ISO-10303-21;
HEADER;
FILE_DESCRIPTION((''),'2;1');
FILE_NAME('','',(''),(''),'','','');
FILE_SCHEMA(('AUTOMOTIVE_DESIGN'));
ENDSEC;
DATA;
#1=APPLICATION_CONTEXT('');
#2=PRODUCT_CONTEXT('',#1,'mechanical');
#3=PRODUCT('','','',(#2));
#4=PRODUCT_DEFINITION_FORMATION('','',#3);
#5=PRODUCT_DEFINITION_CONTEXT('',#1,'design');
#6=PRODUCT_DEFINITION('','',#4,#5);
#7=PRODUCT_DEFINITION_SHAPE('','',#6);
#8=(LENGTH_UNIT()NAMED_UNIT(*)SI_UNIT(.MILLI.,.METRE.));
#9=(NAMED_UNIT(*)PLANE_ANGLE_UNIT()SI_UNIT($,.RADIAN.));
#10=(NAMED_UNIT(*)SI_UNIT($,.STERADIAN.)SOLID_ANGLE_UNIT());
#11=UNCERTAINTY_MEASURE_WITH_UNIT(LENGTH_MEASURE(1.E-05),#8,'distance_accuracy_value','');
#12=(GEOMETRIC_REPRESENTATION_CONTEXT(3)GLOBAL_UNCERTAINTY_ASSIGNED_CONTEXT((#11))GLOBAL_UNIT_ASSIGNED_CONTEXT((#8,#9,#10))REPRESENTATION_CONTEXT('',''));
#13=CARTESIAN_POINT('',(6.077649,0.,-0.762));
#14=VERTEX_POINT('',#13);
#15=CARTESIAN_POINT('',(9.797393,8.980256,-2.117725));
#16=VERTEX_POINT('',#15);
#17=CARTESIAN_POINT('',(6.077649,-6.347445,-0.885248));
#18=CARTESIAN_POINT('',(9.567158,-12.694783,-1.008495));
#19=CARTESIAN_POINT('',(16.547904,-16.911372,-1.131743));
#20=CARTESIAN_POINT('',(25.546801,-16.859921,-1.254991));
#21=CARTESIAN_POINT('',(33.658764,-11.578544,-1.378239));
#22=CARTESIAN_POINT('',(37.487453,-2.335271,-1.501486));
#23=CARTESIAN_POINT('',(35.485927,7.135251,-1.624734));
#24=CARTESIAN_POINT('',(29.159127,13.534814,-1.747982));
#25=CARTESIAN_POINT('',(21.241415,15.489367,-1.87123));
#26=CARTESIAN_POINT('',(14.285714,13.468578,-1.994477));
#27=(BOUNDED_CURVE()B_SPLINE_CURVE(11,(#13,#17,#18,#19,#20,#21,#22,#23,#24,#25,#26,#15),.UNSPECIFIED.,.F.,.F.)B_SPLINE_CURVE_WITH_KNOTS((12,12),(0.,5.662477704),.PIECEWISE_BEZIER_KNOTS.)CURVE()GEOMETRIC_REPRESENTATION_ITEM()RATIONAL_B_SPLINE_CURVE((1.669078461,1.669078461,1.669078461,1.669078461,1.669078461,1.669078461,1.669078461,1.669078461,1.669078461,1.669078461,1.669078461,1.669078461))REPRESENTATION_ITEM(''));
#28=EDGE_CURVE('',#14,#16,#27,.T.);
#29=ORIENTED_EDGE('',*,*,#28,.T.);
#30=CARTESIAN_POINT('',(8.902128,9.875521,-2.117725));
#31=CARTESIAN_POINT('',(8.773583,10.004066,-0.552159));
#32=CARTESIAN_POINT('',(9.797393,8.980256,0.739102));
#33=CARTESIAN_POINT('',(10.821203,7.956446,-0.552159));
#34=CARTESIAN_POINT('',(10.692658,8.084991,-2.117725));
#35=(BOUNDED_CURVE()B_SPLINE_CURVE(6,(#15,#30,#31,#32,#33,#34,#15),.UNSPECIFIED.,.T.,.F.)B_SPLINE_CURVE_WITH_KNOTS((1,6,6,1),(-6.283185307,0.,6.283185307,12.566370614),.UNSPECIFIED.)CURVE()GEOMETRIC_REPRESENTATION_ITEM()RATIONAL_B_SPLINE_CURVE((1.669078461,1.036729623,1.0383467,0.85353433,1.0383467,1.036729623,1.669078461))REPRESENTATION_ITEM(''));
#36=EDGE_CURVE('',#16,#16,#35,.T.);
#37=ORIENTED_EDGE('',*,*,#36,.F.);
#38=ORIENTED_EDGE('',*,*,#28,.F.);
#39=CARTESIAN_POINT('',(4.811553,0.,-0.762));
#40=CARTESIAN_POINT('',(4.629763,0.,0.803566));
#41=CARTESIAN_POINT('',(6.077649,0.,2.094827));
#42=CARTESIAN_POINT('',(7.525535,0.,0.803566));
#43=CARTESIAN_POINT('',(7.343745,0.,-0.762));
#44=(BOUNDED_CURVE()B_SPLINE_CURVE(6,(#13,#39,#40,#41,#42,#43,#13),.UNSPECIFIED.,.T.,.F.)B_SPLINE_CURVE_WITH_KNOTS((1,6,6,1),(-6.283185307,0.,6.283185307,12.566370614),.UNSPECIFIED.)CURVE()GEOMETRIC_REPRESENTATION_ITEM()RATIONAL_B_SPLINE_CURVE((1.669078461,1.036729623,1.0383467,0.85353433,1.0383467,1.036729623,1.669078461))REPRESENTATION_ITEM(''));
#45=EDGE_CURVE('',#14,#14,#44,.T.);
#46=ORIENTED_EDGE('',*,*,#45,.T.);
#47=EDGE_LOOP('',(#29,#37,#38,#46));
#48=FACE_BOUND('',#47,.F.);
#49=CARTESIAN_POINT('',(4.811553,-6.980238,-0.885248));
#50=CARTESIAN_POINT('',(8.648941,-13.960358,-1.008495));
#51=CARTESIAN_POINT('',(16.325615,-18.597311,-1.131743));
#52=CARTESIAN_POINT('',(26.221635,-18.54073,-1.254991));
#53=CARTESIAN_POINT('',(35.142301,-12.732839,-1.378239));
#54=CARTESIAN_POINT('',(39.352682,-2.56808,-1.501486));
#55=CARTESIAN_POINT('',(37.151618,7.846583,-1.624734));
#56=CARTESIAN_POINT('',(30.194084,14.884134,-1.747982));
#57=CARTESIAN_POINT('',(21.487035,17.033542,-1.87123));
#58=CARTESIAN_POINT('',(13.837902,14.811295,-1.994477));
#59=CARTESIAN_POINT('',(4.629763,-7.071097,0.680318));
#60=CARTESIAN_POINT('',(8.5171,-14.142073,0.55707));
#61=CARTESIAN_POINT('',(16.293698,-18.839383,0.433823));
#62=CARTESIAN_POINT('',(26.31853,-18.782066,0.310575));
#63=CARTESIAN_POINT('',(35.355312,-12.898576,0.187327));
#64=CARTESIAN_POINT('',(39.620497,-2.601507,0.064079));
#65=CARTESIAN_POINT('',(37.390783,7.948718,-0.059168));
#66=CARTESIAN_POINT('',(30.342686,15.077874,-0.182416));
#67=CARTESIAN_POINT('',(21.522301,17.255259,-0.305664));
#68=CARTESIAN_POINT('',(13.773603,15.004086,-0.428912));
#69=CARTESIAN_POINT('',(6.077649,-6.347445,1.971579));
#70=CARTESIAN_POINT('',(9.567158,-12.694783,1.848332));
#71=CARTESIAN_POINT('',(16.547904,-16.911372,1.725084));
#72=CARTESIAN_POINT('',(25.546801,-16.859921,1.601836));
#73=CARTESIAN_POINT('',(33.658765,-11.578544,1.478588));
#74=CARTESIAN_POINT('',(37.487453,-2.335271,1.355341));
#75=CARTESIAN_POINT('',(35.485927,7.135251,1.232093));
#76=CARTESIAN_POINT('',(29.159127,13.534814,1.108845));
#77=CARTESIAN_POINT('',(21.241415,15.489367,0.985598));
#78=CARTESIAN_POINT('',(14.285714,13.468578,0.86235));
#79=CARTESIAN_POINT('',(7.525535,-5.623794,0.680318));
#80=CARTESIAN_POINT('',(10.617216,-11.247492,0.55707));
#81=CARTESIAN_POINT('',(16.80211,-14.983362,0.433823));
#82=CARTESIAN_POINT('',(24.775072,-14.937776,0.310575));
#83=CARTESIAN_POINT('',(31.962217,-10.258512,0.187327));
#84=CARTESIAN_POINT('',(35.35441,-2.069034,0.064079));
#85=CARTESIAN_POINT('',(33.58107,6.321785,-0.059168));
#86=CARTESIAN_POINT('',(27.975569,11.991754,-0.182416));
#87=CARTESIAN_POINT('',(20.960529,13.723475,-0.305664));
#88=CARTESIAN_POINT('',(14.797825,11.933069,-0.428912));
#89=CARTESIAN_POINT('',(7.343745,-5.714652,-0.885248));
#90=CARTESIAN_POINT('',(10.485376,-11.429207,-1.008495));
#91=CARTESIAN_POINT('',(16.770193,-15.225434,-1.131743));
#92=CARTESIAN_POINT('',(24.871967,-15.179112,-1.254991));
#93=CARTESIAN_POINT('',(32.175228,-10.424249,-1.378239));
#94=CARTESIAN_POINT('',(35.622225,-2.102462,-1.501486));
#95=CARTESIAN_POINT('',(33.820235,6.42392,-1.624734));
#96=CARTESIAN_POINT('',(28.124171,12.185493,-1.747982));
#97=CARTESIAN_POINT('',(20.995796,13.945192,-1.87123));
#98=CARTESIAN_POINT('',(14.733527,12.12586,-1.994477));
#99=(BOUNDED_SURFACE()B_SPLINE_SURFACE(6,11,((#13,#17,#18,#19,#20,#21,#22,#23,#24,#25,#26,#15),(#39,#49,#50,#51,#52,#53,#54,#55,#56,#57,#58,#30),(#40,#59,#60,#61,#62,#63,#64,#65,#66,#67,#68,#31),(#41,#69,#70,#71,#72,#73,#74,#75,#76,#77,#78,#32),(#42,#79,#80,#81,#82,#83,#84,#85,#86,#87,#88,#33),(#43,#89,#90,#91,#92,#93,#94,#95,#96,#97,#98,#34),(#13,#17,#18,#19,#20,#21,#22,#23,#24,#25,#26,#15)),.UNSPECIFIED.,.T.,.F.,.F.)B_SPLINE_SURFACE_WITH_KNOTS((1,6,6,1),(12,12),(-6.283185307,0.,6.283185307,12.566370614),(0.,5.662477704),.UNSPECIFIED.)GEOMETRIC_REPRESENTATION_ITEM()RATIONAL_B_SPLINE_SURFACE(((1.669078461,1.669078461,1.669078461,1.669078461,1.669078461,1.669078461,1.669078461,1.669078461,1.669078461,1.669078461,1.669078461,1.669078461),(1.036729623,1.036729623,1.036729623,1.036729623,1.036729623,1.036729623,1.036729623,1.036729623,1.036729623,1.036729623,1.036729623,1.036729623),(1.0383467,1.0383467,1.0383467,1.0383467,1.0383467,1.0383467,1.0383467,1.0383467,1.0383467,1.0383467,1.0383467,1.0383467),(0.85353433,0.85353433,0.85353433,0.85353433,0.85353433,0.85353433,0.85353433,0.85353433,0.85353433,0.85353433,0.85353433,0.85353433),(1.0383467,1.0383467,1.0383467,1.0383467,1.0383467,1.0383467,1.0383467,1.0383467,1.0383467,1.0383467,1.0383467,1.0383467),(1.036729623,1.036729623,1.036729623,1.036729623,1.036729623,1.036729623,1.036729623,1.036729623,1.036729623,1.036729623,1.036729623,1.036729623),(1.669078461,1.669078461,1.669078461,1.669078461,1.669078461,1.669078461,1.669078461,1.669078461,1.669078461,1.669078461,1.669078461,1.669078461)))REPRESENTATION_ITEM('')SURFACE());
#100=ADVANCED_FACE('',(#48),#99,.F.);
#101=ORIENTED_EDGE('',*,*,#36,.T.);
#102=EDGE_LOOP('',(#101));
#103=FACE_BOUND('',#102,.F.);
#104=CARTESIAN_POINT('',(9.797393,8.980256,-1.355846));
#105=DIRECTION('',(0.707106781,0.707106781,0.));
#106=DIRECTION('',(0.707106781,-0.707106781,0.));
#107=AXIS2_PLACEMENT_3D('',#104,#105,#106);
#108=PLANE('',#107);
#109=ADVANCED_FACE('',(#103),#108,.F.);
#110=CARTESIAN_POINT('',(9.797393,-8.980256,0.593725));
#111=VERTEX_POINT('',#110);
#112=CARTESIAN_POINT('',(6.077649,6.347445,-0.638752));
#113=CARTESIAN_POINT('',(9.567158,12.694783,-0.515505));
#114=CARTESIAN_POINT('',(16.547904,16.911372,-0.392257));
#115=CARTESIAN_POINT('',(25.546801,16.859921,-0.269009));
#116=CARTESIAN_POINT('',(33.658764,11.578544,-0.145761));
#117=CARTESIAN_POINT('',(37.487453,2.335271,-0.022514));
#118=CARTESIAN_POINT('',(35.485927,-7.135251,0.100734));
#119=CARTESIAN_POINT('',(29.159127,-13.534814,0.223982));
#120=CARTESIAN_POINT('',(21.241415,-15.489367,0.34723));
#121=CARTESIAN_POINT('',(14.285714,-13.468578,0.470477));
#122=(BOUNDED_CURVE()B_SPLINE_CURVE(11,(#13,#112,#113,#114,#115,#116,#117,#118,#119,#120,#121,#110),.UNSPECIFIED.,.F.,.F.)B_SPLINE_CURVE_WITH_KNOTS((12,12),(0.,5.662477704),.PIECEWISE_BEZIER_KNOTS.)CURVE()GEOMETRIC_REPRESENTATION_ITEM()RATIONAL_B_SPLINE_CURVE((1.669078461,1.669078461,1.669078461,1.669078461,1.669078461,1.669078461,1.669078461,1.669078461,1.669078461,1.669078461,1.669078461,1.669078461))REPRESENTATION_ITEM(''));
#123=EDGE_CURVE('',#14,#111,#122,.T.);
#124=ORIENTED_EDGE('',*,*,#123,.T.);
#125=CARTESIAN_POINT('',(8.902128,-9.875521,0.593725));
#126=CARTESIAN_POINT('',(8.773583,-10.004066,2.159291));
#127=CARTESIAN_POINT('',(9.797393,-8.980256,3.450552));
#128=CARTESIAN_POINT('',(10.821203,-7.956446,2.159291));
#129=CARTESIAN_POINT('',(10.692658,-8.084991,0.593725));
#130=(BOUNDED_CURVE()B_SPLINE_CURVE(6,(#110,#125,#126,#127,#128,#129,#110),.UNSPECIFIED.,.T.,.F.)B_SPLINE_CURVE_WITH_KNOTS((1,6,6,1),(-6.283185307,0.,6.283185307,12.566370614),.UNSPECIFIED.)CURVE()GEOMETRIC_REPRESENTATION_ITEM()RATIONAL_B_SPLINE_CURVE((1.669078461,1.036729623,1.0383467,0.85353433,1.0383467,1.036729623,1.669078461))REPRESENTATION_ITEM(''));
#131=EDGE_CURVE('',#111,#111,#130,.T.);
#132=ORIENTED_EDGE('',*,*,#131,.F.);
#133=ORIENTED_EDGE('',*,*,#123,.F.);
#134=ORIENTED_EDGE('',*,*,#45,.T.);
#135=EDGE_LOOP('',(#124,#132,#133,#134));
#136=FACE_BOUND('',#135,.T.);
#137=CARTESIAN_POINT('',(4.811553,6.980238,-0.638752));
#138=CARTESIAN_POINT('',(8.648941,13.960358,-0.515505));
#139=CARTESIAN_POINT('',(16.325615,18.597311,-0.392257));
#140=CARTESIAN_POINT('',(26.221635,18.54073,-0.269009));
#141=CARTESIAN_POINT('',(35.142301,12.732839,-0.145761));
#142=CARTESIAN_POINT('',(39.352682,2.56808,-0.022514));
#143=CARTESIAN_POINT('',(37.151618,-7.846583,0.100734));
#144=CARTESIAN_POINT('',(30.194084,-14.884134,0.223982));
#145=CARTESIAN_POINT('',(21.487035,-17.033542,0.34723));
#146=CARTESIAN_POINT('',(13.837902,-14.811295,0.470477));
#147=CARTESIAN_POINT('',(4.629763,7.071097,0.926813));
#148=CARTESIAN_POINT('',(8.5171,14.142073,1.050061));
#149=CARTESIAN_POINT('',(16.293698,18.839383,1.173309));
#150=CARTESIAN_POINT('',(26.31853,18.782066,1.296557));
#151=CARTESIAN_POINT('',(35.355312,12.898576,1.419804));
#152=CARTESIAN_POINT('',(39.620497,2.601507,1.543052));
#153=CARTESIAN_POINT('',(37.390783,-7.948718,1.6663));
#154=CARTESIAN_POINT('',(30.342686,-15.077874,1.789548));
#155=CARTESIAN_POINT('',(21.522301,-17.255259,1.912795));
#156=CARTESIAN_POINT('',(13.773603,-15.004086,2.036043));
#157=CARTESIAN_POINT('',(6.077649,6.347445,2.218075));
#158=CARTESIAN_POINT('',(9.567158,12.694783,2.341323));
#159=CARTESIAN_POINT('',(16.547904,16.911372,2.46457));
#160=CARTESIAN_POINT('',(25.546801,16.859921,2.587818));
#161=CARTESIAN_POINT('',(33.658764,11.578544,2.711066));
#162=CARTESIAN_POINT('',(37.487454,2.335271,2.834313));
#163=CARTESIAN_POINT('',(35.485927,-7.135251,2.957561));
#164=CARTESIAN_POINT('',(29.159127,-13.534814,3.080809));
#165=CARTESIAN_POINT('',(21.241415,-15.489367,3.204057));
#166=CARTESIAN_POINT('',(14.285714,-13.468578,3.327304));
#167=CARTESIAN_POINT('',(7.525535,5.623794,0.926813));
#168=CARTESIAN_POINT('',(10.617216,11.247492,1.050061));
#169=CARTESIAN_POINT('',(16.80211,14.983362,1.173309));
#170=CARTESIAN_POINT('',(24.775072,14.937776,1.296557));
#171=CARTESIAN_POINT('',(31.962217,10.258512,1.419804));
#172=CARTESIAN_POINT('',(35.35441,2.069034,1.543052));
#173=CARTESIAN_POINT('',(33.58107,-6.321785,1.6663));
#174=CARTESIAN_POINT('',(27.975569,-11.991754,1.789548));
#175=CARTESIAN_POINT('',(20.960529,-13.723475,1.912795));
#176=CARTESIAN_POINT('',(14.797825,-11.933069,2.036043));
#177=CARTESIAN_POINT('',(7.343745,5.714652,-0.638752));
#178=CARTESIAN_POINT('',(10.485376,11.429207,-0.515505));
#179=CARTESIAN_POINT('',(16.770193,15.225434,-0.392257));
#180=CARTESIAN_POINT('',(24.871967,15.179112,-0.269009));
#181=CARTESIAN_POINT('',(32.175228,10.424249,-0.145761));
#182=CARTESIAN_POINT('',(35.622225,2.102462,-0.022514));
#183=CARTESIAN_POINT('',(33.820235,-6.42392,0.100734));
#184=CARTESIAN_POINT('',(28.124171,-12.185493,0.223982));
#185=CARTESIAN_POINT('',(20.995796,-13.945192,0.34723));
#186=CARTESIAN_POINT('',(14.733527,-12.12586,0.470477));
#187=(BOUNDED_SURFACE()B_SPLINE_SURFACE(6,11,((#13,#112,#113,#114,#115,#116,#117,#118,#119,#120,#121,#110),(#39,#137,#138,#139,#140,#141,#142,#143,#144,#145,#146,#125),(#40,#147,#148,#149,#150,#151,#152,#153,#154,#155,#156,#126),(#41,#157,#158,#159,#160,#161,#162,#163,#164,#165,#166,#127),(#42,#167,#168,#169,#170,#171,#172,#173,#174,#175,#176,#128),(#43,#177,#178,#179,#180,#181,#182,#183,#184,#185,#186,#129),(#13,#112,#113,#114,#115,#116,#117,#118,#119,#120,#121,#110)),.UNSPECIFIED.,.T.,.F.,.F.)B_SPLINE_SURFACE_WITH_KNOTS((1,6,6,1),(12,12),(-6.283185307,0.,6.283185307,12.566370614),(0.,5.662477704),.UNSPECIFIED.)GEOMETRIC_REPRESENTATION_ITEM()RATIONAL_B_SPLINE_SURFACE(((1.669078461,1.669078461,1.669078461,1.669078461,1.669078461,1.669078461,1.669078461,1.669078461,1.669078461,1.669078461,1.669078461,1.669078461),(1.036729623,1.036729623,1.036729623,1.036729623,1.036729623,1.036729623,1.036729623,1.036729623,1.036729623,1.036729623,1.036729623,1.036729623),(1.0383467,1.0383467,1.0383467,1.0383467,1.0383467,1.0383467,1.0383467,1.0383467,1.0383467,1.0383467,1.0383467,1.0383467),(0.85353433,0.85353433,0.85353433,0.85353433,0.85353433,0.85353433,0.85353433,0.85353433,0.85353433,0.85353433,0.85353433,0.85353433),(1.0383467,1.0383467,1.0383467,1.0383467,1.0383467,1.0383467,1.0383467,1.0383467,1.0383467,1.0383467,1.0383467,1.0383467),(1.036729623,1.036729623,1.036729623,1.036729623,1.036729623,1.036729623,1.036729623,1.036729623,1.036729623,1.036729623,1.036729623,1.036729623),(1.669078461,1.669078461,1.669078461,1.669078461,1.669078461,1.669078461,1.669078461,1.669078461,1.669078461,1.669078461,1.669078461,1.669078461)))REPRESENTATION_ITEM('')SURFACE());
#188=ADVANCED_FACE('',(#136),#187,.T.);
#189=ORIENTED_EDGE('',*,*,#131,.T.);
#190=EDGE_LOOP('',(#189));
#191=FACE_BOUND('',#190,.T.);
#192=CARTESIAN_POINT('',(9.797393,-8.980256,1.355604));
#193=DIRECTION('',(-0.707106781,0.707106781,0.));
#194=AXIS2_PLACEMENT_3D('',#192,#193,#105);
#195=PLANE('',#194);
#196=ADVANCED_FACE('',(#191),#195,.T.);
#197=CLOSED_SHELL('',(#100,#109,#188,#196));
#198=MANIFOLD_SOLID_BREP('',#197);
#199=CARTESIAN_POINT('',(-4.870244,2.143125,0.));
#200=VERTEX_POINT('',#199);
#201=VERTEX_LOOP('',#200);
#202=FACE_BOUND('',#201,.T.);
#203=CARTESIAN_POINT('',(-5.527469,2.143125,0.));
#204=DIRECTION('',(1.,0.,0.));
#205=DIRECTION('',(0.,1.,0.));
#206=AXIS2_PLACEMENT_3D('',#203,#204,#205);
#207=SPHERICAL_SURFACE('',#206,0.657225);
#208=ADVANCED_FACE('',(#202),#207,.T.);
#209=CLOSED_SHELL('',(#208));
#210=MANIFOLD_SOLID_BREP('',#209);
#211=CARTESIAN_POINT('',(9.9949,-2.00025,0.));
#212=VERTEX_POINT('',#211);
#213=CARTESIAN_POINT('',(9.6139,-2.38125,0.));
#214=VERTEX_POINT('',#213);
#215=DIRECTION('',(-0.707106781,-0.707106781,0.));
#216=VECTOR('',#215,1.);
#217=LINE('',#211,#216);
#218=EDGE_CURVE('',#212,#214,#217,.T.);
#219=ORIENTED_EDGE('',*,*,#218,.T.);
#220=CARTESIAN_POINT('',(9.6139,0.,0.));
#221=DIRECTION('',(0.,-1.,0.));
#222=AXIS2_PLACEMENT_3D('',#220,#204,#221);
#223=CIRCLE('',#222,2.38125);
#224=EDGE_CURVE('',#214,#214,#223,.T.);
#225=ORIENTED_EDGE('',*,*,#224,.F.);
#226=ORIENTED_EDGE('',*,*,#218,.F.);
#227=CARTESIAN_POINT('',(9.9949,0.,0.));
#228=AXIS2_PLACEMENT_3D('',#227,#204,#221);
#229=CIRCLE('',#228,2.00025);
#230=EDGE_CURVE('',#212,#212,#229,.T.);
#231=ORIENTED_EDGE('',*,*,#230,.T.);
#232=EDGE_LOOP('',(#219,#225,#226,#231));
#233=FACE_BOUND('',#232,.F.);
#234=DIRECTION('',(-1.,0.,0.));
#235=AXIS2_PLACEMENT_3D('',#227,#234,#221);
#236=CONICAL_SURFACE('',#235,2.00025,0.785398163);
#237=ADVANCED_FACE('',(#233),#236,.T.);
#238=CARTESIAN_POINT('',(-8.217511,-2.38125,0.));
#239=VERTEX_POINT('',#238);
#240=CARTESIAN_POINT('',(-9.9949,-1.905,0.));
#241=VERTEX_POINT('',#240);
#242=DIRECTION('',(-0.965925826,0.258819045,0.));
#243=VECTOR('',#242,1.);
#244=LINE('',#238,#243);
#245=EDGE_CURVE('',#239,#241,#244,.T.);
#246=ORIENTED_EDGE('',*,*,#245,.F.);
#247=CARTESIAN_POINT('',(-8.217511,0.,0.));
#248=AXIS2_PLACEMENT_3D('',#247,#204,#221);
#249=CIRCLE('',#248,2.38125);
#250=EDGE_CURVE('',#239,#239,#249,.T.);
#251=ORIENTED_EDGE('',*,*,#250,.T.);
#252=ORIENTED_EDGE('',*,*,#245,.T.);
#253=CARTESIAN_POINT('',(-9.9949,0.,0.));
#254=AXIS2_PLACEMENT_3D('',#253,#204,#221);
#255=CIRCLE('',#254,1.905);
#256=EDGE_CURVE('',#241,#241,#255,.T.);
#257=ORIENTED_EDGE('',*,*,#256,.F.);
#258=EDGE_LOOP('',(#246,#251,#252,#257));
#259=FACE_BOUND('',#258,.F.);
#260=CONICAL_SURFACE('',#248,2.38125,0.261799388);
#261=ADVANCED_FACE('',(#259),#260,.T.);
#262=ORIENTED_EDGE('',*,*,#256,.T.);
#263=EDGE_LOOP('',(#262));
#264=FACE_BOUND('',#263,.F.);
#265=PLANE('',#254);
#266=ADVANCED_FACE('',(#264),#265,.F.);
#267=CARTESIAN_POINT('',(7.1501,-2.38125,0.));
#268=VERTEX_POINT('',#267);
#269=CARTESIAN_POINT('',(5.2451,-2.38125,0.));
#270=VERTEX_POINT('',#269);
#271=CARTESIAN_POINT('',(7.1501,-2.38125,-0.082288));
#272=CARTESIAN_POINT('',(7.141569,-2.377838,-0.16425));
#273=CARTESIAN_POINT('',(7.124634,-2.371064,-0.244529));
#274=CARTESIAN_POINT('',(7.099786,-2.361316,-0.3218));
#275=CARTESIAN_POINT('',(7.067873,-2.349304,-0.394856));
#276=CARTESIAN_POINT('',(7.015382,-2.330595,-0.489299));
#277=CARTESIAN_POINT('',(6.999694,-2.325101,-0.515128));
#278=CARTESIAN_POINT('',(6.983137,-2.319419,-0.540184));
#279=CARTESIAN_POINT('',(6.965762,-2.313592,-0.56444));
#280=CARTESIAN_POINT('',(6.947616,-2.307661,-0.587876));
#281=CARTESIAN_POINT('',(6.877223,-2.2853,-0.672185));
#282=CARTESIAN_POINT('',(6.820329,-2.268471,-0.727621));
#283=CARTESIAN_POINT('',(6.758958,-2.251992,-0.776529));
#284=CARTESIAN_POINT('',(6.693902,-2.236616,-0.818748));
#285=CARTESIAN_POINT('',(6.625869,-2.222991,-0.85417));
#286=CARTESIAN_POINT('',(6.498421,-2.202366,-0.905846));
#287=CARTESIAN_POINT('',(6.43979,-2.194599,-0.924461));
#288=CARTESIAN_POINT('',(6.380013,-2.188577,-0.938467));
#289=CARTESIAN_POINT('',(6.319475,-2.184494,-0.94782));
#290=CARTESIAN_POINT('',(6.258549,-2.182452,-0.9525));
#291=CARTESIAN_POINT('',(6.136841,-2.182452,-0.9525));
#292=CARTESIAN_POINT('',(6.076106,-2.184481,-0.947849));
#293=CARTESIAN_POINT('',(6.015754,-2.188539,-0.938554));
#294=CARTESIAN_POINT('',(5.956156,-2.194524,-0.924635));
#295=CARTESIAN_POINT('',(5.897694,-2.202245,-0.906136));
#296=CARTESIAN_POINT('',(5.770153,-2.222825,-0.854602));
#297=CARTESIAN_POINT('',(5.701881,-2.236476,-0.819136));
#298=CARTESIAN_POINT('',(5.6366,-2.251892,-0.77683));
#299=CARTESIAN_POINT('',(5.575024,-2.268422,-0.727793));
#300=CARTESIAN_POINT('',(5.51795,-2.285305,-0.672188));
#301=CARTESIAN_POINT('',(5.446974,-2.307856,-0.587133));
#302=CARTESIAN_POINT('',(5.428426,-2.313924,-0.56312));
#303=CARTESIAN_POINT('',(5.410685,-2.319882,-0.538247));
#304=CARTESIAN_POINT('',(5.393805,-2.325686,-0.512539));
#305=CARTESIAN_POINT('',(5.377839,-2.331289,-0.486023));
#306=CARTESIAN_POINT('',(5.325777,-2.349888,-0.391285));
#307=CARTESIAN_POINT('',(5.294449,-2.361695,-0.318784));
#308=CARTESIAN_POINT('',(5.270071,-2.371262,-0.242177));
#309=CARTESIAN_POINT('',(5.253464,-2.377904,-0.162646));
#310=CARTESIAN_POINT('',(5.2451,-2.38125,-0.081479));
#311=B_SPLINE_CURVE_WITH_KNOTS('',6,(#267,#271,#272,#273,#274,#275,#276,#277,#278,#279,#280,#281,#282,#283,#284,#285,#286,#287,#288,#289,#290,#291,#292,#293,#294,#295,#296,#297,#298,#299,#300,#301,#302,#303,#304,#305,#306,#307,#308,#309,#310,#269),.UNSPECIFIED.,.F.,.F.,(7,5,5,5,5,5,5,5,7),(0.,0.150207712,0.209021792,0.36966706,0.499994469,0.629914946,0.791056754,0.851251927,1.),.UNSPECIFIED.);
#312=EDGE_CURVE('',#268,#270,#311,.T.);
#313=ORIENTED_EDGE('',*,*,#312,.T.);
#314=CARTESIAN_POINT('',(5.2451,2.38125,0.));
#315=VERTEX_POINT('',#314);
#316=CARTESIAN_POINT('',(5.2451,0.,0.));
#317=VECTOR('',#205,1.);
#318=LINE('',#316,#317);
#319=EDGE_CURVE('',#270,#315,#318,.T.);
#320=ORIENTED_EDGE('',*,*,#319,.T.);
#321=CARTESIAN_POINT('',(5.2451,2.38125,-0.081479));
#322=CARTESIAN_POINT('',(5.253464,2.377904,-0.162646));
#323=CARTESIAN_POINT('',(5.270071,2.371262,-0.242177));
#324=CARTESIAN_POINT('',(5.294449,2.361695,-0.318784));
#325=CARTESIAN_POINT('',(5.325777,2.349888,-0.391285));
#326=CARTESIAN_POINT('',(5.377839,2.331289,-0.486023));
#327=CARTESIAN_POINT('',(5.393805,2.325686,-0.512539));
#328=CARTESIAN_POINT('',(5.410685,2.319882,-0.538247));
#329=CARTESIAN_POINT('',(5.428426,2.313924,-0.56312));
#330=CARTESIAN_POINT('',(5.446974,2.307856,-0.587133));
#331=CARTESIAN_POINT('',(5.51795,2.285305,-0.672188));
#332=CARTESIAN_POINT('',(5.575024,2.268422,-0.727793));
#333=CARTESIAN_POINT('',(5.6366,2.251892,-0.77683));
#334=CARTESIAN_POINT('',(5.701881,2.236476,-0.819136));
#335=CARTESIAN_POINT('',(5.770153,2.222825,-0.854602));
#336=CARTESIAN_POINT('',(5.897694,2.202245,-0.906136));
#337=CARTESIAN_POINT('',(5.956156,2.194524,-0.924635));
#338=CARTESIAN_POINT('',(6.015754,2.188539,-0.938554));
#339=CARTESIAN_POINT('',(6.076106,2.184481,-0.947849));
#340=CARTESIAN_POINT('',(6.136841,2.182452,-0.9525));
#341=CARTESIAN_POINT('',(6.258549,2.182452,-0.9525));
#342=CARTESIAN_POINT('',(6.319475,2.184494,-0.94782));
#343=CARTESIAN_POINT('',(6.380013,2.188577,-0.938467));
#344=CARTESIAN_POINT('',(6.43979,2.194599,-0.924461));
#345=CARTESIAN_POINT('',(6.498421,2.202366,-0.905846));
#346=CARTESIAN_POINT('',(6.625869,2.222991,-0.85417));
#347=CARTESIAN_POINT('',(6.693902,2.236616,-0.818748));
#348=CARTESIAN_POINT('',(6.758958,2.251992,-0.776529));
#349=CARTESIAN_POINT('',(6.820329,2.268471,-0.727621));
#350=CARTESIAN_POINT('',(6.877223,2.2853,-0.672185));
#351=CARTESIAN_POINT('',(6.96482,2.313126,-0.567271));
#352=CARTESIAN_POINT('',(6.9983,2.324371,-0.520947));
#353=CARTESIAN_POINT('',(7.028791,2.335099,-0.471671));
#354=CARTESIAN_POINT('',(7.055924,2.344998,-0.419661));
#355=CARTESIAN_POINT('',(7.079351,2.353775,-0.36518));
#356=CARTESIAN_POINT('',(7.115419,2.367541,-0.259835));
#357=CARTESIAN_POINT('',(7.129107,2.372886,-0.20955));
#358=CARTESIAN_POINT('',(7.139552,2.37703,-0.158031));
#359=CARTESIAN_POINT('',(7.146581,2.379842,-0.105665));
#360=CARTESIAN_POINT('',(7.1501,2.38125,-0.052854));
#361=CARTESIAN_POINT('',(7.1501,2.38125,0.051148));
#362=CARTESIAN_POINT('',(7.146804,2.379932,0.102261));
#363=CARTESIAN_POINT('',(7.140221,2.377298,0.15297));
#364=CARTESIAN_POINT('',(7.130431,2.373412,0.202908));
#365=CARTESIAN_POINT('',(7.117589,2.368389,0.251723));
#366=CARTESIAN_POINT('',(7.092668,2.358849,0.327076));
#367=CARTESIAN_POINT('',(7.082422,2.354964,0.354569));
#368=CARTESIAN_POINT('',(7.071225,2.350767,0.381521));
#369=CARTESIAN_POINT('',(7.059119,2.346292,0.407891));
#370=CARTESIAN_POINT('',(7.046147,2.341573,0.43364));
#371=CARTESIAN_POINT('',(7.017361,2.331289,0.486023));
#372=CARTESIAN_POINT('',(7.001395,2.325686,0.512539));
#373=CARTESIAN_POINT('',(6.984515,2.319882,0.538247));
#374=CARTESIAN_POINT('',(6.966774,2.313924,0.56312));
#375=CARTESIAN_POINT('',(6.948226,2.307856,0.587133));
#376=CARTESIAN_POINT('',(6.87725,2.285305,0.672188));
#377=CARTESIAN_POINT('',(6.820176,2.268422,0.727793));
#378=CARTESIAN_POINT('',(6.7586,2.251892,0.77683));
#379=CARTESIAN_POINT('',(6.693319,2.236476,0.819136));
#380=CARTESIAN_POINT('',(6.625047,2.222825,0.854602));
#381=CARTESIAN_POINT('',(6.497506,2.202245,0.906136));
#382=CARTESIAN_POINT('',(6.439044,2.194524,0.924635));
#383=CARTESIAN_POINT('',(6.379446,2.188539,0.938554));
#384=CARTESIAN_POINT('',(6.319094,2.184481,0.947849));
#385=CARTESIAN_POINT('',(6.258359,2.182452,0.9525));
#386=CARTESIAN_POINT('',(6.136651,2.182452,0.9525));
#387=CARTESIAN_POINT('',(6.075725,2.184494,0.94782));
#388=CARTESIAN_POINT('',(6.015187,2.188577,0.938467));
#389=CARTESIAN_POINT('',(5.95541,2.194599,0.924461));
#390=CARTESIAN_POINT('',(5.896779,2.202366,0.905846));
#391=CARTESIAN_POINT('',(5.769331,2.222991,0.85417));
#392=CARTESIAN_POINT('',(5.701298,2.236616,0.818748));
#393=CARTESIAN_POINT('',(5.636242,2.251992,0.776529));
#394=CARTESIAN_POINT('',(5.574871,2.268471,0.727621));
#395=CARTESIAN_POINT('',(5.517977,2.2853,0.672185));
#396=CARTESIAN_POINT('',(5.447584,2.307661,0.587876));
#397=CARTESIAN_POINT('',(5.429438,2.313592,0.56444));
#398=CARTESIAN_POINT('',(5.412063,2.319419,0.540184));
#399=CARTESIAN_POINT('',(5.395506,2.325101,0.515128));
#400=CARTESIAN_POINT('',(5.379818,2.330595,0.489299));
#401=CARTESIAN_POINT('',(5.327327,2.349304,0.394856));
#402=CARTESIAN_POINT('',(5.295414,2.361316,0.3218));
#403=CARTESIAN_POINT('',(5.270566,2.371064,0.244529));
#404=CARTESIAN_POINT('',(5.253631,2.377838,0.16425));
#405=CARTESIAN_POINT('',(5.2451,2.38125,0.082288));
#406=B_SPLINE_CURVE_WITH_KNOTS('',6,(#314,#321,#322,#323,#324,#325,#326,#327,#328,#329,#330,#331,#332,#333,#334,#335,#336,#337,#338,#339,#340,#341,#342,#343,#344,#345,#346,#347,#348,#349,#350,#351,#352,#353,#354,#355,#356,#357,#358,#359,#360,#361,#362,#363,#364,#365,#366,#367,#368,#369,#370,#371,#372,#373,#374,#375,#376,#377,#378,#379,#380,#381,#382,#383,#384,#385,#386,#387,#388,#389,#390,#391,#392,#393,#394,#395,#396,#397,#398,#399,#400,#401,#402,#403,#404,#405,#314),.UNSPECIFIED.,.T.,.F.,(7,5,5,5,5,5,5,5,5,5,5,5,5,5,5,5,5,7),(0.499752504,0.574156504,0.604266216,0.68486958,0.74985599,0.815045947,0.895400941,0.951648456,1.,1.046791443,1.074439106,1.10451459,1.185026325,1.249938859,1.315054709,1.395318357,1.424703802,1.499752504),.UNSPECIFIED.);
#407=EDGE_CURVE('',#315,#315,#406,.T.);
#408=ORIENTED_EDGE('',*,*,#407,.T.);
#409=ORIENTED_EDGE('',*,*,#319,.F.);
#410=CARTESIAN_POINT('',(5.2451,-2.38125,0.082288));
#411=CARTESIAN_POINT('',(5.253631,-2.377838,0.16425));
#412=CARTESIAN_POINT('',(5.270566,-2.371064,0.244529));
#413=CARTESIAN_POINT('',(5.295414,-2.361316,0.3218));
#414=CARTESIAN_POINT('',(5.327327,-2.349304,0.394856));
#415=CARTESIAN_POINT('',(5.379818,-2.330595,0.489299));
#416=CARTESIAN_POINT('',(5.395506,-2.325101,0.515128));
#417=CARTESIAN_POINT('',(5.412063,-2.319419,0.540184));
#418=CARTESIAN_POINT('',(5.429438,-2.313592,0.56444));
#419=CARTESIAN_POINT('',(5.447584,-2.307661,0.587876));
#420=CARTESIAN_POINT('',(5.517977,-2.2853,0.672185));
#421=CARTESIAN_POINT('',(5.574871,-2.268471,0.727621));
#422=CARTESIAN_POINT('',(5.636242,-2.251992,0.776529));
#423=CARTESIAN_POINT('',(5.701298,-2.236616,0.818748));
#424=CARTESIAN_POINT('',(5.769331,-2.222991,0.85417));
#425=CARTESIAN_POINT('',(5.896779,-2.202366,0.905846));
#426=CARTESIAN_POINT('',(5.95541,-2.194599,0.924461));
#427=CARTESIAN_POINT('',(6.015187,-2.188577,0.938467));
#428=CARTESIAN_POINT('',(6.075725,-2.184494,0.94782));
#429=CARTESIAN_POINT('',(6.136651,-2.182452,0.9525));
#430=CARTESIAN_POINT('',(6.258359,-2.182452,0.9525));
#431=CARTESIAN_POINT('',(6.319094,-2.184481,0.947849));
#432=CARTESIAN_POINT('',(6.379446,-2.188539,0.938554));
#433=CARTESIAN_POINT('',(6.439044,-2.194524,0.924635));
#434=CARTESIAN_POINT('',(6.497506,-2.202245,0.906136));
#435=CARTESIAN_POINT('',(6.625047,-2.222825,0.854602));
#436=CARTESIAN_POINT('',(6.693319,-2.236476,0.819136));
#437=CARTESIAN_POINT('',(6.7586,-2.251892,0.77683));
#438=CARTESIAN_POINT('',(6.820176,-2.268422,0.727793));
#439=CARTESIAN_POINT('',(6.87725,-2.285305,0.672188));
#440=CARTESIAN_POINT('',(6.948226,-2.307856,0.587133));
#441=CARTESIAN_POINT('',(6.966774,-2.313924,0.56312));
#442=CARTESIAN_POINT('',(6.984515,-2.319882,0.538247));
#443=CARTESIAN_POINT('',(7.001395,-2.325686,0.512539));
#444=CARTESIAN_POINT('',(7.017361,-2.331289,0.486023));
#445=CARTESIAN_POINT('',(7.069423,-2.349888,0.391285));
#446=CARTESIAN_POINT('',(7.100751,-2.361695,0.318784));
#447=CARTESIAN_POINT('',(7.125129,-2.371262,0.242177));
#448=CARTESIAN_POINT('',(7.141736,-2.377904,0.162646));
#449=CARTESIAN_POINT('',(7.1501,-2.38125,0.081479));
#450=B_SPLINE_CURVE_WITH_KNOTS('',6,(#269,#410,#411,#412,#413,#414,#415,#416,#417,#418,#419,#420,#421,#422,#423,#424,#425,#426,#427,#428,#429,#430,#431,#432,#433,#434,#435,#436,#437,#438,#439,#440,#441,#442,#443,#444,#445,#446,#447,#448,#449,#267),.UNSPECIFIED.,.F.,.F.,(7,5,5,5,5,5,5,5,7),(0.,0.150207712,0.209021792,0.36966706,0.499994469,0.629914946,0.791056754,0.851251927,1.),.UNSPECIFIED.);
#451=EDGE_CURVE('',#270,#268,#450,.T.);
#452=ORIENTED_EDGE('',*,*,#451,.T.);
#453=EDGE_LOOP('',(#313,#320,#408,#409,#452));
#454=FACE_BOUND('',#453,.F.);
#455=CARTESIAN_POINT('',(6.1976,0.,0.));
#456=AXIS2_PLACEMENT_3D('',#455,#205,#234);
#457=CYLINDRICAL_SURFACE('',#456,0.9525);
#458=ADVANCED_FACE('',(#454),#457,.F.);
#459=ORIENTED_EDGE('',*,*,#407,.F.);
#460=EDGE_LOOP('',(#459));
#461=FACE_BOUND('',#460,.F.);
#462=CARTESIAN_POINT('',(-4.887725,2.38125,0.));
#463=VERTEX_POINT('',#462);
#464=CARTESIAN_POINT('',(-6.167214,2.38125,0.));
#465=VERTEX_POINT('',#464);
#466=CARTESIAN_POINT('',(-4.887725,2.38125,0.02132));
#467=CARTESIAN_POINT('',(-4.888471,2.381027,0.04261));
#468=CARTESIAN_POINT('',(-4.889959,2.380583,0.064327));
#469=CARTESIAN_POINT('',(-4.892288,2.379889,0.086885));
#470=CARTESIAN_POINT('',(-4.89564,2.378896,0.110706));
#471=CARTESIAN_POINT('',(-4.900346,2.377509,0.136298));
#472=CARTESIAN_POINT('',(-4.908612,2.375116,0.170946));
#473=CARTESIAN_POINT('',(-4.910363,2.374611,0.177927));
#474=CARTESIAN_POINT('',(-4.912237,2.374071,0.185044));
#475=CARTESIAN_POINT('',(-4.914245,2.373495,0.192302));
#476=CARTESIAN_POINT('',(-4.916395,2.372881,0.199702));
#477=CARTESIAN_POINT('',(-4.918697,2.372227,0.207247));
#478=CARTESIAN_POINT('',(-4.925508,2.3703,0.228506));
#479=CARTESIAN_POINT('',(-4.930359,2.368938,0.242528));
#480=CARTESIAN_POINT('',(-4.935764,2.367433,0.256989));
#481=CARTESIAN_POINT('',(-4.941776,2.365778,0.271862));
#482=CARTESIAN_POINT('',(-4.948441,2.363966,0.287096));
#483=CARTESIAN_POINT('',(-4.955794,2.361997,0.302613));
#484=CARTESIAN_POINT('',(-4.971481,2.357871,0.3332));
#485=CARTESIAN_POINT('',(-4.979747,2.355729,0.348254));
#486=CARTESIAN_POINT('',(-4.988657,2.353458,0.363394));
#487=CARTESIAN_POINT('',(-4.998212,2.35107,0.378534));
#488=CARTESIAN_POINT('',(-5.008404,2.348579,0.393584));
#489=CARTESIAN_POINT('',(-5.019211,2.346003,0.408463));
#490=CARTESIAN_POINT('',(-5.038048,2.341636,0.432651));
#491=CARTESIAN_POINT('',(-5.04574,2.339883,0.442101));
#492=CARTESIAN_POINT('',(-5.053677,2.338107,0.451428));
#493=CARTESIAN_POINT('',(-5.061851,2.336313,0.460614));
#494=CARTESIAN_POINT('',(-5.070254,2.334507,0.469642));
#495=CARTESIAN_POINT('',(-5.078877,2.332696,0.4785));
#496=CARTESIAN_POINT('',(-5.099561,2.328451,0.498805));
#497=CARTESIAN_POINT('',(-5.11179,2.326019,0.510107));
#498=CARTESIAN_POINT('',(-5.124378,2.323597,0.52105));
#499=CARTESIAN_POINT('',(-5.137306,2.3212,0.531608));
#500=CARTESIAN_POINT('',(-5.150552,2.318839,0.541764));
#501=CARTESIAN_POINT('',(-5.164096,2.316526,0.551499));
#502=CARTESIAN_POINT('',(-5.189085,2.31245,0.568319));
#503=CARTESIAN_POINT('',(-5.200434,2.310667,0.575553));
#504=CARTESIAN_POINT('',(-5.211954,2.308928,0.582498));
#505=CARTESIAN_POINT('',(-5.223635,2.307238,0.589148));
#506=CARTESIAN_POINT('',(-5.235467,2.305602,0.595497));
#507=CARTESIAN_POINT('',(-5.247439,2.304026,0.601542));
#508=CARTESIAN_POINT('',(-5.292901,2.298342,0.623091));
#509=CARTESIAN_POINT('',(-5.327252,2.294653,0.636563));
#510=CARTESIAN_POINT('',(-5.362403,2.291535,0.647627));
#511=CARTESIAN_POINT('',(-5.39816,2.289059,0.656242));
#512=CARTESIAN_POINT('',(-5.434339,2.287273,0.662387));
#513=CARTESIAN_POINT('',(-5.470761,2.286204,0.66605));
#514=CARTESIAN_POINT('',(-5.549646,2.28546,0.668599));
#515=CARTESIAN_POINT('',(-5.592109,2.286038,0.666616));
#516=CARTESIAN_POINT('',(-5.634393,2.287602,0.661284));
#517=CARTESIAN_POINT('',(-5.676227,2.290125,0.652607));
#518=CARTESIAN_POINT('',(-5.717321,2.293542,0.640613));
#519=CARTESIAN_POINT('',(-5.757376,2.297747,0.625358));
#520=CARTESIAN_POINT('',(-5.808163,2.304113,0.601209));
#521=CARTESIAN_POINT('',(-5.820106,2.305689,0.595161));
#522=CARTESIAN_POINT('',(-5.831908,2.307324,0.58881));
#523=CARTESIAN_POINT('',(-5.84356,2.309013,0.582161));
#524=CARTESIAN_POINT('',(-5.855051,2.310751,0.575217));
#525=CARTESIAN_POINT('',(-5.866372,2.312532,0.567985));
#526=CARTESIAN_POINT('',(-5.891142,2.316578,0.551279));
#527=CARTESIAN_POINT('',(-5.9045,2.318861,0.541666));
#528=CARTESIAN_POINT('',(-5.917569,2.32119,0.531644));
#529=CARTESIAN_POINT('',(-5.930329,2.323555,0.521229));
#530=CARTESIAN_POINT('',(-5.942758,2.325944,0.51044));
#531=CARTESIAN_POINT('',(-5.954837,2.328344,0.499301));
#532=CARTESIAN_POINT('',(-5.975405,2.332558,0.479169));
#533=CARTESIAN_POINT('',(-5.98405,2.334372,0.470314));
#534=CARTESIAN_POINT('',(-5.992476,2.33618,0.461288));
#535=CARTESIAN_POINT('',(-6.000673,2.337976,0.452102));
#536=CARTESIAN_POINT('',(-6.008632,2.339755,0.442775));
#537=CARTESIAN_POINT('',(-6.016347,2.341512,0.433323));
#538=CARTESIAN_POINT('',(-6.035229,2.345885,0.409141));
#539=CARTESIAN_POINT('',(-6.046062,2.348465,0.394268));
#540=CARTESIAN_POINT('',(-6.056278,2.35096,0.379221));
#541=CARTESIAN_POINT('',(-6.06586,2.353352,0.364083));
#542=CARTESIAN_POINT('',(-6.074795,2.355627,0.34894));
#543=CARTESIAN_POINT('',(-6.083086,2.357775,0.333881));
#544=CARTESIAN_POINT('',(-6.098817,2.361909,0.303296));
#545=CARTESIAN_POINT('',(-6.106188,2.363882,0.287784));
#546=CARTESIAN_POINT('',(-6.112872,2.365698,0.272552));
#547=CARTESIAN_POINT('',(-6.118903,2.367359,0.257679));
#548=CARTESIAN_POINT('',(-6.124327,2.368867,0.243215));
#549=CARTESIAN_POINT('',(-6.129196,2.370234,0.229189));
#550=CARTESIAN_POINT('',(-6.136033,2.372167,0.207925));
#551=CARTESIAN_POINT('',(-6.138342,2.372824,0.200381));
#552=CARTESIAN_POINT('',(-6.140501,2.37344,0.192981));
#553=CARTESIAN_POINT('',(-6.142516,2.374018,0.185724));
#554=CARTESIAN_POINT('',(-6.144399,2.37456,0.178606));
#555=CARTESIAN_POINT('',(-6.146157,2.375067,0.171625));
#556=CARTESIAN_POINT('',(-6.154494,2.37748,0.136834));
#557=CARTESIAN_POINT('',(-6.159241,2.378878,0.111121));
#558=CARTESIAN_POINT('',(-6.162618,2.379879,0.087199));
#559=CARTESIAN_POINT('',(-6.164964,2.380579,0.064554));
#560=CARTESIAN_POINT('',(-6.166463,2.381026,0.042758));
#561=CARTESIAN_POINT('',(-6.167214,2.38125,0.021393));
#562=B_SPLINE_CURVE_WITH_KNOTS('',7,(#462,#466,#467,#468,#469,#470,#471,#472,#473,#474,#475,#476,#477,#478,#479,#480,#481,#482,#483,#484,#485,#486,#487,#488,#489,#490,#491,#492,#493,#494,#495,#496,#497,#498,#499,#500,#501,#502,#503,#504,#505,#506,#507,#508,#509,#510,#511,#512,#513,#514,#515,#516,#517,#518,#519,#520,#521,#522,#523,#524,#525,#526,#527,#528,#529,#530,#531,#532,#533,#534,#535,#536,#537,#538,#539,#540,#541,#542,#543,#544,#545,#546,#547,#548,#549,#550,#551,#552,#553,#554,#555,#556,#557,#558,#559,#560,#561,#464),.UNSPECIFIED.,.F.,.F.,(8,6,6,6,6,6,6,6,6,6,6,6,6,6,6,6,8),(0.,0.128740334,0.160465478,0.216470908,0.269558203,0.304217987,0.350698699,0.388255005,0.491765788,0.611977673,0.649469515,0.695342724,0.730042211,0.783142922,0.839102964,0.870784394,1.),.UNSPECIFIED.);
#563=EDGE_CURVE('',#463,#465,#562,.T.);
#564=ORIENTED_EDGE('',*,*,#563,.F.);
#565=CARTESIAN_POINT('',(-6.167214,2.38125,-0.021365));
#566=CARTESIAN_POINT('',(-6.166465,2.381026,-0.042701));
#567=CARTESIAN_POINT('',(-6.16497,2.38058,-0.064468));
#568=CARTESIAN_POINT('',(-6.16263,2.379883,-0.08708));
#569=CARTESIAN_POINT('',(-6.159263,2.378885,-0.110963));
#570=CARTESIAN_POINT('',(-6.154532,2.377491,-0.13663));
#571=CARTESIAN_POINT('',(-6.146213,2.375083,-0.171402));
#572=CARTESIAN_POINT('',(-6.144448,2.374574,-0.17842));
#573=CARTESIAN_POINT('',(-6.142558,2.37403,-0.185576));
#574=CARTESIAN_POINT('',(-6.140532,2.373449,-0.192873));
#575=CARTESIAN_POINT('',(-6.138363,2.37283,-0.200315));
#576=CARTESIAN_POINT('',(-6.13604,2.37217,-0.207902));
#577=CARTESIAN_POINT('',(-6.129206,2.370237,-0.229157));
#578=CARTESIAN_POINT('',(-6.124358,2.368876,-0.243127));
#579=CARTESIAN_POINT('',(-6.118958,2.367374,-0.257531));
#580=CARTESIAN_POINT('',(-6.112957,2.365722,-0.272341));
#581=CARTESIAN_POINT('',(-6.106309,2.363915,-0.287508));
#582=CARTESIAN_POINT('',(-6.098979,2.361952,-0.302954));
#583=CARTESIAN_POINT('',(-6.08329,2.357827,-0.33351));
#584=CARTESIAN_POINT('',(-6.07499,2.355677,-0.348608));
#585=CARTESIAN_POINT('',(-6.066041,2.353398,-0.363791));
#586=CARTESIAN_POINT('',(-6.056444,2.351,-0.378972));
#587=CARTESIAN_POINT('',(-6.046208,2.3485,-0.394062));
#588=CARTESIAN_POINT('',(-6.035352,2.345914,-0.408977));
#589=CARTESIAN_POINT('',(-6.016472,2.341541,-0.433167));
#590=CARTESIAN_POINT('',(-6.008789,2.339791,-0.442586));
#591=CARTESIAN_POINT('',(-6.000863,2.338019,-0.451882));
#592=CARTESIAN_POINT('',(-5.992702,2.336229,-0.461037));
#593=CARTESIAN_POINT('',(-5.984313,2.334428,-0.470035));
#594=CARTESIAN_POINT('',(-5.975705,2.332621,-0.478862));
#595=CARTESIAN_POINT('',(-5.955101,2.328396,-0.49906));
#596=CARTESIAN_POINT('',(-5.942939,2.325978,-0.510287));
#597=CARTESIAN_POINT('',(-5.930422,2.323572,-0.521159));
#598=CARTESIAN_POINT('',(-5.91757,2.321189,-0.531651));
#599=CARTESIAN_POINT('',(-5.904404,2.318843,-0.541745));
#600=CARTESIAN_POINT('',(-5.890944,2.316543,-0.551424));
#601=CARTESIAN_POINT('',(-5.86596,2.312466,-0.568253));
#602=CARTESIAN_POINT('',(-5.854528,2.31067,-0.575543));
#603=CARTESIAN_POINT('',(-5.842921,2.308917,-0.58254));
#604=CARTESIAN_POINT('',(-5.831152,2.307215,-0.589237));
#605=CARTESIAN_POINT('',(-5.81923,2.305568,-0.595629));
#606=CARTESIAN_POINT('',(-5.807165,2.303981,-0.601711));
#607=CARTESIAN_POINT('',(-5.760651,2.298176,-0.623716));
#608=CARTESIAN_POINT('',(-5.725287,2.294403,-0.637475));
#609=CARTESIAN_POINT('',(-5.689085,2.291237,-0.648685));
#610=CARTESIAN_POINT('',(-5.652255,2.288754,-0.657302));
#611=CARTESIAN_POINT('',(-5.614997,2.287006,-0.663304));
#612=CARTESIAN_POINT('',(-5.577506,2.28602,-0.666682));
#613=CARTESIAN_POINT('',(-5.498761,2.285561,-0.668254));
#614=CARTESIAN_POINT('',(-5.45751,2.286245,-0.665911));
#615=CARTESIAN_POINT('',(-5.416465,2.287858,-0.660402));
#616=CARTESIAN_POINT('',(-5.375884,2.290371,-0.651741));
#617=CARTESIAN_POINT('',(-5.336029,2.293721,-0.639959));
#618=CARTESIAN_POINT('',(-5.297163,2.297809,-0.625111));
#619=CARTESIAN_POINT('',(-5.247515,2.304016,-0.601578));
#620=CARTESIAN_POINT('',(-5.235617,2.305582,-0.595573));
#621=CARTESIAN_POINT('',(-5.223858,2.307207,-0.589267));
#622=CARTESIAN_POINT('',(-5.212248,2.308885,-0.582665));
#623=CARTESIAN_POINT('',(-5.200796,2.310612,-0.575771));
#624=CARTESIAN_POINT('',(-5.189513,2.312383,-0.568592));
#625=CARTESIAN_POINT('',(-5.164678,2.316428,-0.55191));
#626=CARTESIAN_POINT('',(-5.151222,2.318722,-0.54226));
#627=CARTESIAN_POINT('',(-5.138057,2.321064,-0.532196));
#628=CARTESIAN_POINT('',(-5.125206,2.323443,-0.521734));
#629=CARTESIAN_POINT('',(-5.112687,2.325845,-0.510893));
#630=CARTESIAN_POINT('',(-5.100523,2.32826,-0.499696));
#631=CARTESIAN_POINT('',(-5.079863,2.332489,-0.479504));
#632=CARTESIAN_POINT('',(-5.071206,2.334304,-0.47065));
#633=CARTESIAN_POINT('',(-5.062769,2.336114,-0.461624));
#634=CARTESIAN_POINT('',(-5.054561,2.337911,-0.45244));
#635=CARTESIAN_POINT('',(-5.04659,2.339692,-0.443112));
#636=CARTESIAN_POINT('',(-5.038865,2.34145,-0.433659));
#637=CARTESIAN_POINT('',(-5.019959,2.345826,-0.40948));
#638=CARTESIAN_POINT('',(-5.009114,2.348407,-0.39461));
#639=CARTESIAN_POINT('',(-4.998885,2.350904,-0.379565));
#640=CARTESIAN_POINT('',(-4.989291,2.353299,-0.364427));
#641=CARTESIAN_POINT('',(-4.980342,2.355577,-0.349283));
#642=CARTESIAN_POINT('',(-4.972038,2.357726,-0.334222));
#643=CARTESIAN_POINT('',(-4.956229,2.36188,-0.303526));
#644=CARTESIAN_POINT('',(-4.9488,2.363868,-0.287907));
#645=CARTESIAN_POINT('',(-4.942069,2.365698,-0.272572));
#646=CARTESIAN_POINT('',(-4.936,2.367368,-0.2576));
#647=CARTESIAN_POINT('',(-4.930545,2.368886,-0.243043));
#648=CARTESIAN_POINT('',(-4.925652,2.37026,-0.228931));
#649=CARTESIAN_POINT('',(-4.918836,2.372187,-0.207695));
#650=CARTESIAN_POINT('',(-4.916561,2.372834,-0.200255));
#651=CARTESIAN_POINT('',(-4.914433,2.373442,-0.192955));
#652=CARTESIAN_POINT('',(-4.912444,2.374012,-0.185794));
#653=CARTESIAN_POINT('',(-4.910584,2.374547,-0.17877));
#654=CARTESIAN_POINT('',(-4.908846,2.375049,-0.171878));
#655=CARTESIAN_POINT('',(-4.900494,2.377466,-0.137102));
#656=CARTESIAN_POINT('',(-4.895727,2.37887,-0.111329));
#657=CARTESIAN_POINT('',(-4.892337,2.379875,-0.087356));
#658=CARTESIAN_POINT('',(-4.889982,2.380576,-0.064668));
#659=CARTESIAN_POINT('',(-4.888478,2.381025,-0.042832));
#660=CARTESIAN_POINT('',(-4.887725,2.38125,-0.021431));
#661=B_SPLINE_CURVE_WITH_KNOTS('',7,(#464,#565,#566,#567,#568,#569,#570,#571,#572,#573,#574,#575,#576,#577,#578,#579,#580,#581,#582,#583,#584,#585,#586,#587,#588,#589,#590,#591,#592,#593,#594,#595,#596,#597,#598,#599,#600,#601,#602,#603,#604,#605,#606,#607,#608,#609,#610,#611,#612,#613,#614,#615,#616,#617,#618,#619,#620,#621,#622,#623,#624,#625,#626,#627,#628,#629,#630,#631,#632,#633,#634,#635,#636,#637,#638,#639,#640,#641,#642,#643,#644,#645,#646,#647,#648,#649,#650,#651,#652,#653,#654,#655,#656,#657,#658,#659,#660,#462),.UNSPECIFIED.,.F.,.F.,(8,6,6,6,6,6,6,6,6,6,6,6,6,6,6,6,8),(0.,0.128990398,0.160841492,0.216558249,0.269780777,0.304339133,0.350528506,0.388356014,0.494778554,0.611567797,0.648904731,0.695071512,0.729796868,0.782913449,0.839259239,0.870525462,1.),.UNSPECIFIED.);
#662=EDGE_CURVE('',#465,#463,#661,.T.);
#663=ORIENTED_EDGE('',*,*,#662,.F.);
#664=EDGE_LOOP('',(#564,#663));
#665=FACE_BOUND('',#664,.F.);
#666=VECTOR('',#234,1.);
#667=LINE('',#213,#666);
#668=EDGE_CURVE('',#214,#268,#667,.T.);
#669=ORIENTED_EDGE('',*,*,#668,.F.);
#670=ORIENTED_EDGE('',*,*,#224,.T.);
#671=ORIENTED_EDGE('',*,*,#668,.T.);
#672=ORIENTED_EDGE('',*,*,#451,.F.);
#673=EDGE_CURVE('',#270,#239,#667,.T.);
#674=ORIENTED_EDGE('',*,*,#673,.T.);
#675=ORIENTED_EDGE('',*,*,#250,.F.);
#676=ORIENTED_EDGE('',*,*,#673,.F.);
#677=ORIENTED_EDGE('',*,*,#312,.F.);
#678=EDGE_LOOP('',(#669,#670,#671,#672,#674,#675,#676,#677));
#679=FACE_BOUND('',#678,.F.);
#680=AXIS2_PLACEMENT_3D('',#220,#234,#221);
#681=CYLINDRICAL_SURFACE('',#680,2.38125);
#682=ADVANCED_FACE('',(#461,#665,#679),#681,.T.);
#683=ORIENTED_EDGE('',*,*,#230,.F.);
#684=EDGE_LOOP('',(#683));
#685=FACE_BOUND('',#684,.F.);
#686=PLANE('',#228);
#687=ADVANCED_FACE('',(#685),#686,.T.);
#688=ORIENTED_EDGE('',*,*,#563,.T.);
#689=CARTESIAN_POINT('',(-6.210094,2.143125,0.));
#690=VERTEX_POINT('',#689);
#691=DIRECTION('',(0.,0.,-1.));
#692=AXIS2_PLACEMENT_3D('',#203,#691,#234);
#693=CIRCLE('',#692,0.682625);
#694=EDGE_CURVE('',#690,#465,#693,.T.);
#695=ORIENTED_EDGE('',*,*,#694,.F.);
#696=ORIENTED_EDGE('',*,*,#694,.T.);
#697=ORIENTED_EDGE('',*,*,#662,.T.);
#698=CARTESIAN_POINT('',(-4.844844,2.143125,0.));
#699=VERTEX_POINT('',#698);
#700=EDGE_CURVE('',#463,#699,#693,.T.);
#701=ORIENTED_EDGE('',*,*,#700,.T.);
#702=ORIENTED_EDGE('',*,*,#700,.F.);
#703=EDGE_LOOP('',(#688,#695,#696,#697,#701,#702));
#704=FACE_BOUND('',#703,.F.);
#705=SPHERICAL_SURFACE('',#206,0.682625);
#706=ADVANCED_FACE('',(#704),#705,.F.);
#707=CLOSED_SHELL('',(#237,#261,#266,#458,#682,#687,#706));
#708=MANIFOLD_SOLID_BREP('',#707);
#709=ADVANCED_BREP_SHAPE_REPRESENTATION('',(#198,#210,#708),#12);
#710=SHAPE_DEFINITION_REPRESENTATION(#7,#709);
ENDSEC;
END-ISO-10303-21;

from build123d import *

# Parameters (mm, degrees)
SKETCH4_W          = 0.9525
SKETCH4_H          = 4.7625
SWEEP1_PITCH       = 1.5494
SWEEP1_HEIGHT      = 1.355725
SWEEP1_RADIUS      = 13.462
SKETCH6_R          = 0.762
SWEEP2_PITCH       = 1.5494
SWEEP2_HEIGHT      = 1.355725
SWEEP2_RADIUS      = 13.462
SWEEP2_START_ANGLE = -180
SKETCH6_2_R        = 0.762


with BuildPart() as part:
    # Sketch1 → Revolve1 (revolve)
    with BuildSketch(Plane.XY, mode=Mode.PRIVATE) as revolve1_sk:
        Polygon((9.9949, 2.00025), (9.6139, 2.38125), (-8.217510803, 2.38125), (-9.9949, 1.905), (-9.9949, 0), (9.9949, 0), align=None)
    revolve(revolve1_sk.sketch.rotate(Axis((9.9949, 0, 0), (1, 0, 0)), 180), axis=Axis((9.9949, 0, 0), (1, 0, 0)))

    # Sketch2 → Cut-Revolve1 (revolve, cut)
    with BuildSketch(Plane.XY):
        with BuildLine():
            Line((-4.844844331, 2.143125), (-6.210094331, 2.143125))
            ThreePointArc((-6.210094331, 2.143125), (-5.527469331, 2.82575), (-4.844844331, 2.143125))
        make_face()
    revolve(axis=Axis((-4.844844331, 2.143125, 0), (1, 0, 0)), mode=Mode.SUBTRACT)

    # Sketch4 → Cut-Revolve2 (revolve, cut)
    with BuildSketch(Plane.XY, mode=Mode.PRIVATE) as cut_revolve2_sk:
        with Locations((6.67385, 0)):
            Rectangle(SKETCH4_W, SKETCH4_H)
    revolve(cut_revolve2_sk.sketch.rotate(Axis((6.1976, -2.38125, 0), (0, 1, 0)), 180), axis=Axis((6.1976, -2.38125, 0), (0, 1, 0)), mode=Mode.SUBTRACT)


with BuildPart() as body_2:
    # Sketch3 → Revolve2 (revolve)
    with BuildSketch(Plane.XY):
        with BuildLine():
            Line((-4.870244331, 2.143125), (-6.184694331, 2.143125))
            ThreePointArc((-6.184694331, 2.143125), (-5.527469331, 2.80035), (-4.870244331, 2.143125))
        make_face()
    revolve(axis=Axis((-4.870244331, 2.143125, 0), (1, 0, 0)))


with BuildPart() as body_3:
    # Sweep1: sweep along a helix
    with BuildLine() as sweep1_path:
        Helix(SWEEP1_PITCH, SWEEP1_HEIGHT, SWEEP1_RADIUS, center=(18.777648906, 0, 0), direction=(0, 0, -1), lefthand=True)
    # Sketch6 → Sweep1 (sweep)
    with BuildSketch(Plane(origin=(114.003847968, 0, 0), x_dir=(0, 0, -1), z_dir=(0, 1, 0))):
        with Locations((0, 107.926199061)):
            Circle(SKETCH6_R)
    sweep(path=sweep1_path.line, is_frenet=True)

    # Sweep2: sweep along a helix
    with BuildLine() as sweep2_path:
        add(Helix(SWEEP2_PITCH, SWEEP2_HEIGHT, SWEEP2_RADIUS, center=(18.777648906, 0, 0), direction=(0, 0, 1), lefthand=True, mode=Mode.PRIVATE).rotate(Axis((18.777648906, 0, 0), (0, 0, 1)), SWEEP2_START_ANGLE))
    # Sketch6<2> → Sweep2 (sweep)
    with BuildSketch(Plane(origin=(114.003847968, 0, 0), x_dir=(0, 0, -1), z_dir=(0, 1, 0))):
        with Locations((0, 107.926199061)):
            Circle(SKETCH6_2_R)
    sweep(path=sweep2_path.line, is_frenet=True)


solid = Compound([part.part, body_2.part, body_3.part])
